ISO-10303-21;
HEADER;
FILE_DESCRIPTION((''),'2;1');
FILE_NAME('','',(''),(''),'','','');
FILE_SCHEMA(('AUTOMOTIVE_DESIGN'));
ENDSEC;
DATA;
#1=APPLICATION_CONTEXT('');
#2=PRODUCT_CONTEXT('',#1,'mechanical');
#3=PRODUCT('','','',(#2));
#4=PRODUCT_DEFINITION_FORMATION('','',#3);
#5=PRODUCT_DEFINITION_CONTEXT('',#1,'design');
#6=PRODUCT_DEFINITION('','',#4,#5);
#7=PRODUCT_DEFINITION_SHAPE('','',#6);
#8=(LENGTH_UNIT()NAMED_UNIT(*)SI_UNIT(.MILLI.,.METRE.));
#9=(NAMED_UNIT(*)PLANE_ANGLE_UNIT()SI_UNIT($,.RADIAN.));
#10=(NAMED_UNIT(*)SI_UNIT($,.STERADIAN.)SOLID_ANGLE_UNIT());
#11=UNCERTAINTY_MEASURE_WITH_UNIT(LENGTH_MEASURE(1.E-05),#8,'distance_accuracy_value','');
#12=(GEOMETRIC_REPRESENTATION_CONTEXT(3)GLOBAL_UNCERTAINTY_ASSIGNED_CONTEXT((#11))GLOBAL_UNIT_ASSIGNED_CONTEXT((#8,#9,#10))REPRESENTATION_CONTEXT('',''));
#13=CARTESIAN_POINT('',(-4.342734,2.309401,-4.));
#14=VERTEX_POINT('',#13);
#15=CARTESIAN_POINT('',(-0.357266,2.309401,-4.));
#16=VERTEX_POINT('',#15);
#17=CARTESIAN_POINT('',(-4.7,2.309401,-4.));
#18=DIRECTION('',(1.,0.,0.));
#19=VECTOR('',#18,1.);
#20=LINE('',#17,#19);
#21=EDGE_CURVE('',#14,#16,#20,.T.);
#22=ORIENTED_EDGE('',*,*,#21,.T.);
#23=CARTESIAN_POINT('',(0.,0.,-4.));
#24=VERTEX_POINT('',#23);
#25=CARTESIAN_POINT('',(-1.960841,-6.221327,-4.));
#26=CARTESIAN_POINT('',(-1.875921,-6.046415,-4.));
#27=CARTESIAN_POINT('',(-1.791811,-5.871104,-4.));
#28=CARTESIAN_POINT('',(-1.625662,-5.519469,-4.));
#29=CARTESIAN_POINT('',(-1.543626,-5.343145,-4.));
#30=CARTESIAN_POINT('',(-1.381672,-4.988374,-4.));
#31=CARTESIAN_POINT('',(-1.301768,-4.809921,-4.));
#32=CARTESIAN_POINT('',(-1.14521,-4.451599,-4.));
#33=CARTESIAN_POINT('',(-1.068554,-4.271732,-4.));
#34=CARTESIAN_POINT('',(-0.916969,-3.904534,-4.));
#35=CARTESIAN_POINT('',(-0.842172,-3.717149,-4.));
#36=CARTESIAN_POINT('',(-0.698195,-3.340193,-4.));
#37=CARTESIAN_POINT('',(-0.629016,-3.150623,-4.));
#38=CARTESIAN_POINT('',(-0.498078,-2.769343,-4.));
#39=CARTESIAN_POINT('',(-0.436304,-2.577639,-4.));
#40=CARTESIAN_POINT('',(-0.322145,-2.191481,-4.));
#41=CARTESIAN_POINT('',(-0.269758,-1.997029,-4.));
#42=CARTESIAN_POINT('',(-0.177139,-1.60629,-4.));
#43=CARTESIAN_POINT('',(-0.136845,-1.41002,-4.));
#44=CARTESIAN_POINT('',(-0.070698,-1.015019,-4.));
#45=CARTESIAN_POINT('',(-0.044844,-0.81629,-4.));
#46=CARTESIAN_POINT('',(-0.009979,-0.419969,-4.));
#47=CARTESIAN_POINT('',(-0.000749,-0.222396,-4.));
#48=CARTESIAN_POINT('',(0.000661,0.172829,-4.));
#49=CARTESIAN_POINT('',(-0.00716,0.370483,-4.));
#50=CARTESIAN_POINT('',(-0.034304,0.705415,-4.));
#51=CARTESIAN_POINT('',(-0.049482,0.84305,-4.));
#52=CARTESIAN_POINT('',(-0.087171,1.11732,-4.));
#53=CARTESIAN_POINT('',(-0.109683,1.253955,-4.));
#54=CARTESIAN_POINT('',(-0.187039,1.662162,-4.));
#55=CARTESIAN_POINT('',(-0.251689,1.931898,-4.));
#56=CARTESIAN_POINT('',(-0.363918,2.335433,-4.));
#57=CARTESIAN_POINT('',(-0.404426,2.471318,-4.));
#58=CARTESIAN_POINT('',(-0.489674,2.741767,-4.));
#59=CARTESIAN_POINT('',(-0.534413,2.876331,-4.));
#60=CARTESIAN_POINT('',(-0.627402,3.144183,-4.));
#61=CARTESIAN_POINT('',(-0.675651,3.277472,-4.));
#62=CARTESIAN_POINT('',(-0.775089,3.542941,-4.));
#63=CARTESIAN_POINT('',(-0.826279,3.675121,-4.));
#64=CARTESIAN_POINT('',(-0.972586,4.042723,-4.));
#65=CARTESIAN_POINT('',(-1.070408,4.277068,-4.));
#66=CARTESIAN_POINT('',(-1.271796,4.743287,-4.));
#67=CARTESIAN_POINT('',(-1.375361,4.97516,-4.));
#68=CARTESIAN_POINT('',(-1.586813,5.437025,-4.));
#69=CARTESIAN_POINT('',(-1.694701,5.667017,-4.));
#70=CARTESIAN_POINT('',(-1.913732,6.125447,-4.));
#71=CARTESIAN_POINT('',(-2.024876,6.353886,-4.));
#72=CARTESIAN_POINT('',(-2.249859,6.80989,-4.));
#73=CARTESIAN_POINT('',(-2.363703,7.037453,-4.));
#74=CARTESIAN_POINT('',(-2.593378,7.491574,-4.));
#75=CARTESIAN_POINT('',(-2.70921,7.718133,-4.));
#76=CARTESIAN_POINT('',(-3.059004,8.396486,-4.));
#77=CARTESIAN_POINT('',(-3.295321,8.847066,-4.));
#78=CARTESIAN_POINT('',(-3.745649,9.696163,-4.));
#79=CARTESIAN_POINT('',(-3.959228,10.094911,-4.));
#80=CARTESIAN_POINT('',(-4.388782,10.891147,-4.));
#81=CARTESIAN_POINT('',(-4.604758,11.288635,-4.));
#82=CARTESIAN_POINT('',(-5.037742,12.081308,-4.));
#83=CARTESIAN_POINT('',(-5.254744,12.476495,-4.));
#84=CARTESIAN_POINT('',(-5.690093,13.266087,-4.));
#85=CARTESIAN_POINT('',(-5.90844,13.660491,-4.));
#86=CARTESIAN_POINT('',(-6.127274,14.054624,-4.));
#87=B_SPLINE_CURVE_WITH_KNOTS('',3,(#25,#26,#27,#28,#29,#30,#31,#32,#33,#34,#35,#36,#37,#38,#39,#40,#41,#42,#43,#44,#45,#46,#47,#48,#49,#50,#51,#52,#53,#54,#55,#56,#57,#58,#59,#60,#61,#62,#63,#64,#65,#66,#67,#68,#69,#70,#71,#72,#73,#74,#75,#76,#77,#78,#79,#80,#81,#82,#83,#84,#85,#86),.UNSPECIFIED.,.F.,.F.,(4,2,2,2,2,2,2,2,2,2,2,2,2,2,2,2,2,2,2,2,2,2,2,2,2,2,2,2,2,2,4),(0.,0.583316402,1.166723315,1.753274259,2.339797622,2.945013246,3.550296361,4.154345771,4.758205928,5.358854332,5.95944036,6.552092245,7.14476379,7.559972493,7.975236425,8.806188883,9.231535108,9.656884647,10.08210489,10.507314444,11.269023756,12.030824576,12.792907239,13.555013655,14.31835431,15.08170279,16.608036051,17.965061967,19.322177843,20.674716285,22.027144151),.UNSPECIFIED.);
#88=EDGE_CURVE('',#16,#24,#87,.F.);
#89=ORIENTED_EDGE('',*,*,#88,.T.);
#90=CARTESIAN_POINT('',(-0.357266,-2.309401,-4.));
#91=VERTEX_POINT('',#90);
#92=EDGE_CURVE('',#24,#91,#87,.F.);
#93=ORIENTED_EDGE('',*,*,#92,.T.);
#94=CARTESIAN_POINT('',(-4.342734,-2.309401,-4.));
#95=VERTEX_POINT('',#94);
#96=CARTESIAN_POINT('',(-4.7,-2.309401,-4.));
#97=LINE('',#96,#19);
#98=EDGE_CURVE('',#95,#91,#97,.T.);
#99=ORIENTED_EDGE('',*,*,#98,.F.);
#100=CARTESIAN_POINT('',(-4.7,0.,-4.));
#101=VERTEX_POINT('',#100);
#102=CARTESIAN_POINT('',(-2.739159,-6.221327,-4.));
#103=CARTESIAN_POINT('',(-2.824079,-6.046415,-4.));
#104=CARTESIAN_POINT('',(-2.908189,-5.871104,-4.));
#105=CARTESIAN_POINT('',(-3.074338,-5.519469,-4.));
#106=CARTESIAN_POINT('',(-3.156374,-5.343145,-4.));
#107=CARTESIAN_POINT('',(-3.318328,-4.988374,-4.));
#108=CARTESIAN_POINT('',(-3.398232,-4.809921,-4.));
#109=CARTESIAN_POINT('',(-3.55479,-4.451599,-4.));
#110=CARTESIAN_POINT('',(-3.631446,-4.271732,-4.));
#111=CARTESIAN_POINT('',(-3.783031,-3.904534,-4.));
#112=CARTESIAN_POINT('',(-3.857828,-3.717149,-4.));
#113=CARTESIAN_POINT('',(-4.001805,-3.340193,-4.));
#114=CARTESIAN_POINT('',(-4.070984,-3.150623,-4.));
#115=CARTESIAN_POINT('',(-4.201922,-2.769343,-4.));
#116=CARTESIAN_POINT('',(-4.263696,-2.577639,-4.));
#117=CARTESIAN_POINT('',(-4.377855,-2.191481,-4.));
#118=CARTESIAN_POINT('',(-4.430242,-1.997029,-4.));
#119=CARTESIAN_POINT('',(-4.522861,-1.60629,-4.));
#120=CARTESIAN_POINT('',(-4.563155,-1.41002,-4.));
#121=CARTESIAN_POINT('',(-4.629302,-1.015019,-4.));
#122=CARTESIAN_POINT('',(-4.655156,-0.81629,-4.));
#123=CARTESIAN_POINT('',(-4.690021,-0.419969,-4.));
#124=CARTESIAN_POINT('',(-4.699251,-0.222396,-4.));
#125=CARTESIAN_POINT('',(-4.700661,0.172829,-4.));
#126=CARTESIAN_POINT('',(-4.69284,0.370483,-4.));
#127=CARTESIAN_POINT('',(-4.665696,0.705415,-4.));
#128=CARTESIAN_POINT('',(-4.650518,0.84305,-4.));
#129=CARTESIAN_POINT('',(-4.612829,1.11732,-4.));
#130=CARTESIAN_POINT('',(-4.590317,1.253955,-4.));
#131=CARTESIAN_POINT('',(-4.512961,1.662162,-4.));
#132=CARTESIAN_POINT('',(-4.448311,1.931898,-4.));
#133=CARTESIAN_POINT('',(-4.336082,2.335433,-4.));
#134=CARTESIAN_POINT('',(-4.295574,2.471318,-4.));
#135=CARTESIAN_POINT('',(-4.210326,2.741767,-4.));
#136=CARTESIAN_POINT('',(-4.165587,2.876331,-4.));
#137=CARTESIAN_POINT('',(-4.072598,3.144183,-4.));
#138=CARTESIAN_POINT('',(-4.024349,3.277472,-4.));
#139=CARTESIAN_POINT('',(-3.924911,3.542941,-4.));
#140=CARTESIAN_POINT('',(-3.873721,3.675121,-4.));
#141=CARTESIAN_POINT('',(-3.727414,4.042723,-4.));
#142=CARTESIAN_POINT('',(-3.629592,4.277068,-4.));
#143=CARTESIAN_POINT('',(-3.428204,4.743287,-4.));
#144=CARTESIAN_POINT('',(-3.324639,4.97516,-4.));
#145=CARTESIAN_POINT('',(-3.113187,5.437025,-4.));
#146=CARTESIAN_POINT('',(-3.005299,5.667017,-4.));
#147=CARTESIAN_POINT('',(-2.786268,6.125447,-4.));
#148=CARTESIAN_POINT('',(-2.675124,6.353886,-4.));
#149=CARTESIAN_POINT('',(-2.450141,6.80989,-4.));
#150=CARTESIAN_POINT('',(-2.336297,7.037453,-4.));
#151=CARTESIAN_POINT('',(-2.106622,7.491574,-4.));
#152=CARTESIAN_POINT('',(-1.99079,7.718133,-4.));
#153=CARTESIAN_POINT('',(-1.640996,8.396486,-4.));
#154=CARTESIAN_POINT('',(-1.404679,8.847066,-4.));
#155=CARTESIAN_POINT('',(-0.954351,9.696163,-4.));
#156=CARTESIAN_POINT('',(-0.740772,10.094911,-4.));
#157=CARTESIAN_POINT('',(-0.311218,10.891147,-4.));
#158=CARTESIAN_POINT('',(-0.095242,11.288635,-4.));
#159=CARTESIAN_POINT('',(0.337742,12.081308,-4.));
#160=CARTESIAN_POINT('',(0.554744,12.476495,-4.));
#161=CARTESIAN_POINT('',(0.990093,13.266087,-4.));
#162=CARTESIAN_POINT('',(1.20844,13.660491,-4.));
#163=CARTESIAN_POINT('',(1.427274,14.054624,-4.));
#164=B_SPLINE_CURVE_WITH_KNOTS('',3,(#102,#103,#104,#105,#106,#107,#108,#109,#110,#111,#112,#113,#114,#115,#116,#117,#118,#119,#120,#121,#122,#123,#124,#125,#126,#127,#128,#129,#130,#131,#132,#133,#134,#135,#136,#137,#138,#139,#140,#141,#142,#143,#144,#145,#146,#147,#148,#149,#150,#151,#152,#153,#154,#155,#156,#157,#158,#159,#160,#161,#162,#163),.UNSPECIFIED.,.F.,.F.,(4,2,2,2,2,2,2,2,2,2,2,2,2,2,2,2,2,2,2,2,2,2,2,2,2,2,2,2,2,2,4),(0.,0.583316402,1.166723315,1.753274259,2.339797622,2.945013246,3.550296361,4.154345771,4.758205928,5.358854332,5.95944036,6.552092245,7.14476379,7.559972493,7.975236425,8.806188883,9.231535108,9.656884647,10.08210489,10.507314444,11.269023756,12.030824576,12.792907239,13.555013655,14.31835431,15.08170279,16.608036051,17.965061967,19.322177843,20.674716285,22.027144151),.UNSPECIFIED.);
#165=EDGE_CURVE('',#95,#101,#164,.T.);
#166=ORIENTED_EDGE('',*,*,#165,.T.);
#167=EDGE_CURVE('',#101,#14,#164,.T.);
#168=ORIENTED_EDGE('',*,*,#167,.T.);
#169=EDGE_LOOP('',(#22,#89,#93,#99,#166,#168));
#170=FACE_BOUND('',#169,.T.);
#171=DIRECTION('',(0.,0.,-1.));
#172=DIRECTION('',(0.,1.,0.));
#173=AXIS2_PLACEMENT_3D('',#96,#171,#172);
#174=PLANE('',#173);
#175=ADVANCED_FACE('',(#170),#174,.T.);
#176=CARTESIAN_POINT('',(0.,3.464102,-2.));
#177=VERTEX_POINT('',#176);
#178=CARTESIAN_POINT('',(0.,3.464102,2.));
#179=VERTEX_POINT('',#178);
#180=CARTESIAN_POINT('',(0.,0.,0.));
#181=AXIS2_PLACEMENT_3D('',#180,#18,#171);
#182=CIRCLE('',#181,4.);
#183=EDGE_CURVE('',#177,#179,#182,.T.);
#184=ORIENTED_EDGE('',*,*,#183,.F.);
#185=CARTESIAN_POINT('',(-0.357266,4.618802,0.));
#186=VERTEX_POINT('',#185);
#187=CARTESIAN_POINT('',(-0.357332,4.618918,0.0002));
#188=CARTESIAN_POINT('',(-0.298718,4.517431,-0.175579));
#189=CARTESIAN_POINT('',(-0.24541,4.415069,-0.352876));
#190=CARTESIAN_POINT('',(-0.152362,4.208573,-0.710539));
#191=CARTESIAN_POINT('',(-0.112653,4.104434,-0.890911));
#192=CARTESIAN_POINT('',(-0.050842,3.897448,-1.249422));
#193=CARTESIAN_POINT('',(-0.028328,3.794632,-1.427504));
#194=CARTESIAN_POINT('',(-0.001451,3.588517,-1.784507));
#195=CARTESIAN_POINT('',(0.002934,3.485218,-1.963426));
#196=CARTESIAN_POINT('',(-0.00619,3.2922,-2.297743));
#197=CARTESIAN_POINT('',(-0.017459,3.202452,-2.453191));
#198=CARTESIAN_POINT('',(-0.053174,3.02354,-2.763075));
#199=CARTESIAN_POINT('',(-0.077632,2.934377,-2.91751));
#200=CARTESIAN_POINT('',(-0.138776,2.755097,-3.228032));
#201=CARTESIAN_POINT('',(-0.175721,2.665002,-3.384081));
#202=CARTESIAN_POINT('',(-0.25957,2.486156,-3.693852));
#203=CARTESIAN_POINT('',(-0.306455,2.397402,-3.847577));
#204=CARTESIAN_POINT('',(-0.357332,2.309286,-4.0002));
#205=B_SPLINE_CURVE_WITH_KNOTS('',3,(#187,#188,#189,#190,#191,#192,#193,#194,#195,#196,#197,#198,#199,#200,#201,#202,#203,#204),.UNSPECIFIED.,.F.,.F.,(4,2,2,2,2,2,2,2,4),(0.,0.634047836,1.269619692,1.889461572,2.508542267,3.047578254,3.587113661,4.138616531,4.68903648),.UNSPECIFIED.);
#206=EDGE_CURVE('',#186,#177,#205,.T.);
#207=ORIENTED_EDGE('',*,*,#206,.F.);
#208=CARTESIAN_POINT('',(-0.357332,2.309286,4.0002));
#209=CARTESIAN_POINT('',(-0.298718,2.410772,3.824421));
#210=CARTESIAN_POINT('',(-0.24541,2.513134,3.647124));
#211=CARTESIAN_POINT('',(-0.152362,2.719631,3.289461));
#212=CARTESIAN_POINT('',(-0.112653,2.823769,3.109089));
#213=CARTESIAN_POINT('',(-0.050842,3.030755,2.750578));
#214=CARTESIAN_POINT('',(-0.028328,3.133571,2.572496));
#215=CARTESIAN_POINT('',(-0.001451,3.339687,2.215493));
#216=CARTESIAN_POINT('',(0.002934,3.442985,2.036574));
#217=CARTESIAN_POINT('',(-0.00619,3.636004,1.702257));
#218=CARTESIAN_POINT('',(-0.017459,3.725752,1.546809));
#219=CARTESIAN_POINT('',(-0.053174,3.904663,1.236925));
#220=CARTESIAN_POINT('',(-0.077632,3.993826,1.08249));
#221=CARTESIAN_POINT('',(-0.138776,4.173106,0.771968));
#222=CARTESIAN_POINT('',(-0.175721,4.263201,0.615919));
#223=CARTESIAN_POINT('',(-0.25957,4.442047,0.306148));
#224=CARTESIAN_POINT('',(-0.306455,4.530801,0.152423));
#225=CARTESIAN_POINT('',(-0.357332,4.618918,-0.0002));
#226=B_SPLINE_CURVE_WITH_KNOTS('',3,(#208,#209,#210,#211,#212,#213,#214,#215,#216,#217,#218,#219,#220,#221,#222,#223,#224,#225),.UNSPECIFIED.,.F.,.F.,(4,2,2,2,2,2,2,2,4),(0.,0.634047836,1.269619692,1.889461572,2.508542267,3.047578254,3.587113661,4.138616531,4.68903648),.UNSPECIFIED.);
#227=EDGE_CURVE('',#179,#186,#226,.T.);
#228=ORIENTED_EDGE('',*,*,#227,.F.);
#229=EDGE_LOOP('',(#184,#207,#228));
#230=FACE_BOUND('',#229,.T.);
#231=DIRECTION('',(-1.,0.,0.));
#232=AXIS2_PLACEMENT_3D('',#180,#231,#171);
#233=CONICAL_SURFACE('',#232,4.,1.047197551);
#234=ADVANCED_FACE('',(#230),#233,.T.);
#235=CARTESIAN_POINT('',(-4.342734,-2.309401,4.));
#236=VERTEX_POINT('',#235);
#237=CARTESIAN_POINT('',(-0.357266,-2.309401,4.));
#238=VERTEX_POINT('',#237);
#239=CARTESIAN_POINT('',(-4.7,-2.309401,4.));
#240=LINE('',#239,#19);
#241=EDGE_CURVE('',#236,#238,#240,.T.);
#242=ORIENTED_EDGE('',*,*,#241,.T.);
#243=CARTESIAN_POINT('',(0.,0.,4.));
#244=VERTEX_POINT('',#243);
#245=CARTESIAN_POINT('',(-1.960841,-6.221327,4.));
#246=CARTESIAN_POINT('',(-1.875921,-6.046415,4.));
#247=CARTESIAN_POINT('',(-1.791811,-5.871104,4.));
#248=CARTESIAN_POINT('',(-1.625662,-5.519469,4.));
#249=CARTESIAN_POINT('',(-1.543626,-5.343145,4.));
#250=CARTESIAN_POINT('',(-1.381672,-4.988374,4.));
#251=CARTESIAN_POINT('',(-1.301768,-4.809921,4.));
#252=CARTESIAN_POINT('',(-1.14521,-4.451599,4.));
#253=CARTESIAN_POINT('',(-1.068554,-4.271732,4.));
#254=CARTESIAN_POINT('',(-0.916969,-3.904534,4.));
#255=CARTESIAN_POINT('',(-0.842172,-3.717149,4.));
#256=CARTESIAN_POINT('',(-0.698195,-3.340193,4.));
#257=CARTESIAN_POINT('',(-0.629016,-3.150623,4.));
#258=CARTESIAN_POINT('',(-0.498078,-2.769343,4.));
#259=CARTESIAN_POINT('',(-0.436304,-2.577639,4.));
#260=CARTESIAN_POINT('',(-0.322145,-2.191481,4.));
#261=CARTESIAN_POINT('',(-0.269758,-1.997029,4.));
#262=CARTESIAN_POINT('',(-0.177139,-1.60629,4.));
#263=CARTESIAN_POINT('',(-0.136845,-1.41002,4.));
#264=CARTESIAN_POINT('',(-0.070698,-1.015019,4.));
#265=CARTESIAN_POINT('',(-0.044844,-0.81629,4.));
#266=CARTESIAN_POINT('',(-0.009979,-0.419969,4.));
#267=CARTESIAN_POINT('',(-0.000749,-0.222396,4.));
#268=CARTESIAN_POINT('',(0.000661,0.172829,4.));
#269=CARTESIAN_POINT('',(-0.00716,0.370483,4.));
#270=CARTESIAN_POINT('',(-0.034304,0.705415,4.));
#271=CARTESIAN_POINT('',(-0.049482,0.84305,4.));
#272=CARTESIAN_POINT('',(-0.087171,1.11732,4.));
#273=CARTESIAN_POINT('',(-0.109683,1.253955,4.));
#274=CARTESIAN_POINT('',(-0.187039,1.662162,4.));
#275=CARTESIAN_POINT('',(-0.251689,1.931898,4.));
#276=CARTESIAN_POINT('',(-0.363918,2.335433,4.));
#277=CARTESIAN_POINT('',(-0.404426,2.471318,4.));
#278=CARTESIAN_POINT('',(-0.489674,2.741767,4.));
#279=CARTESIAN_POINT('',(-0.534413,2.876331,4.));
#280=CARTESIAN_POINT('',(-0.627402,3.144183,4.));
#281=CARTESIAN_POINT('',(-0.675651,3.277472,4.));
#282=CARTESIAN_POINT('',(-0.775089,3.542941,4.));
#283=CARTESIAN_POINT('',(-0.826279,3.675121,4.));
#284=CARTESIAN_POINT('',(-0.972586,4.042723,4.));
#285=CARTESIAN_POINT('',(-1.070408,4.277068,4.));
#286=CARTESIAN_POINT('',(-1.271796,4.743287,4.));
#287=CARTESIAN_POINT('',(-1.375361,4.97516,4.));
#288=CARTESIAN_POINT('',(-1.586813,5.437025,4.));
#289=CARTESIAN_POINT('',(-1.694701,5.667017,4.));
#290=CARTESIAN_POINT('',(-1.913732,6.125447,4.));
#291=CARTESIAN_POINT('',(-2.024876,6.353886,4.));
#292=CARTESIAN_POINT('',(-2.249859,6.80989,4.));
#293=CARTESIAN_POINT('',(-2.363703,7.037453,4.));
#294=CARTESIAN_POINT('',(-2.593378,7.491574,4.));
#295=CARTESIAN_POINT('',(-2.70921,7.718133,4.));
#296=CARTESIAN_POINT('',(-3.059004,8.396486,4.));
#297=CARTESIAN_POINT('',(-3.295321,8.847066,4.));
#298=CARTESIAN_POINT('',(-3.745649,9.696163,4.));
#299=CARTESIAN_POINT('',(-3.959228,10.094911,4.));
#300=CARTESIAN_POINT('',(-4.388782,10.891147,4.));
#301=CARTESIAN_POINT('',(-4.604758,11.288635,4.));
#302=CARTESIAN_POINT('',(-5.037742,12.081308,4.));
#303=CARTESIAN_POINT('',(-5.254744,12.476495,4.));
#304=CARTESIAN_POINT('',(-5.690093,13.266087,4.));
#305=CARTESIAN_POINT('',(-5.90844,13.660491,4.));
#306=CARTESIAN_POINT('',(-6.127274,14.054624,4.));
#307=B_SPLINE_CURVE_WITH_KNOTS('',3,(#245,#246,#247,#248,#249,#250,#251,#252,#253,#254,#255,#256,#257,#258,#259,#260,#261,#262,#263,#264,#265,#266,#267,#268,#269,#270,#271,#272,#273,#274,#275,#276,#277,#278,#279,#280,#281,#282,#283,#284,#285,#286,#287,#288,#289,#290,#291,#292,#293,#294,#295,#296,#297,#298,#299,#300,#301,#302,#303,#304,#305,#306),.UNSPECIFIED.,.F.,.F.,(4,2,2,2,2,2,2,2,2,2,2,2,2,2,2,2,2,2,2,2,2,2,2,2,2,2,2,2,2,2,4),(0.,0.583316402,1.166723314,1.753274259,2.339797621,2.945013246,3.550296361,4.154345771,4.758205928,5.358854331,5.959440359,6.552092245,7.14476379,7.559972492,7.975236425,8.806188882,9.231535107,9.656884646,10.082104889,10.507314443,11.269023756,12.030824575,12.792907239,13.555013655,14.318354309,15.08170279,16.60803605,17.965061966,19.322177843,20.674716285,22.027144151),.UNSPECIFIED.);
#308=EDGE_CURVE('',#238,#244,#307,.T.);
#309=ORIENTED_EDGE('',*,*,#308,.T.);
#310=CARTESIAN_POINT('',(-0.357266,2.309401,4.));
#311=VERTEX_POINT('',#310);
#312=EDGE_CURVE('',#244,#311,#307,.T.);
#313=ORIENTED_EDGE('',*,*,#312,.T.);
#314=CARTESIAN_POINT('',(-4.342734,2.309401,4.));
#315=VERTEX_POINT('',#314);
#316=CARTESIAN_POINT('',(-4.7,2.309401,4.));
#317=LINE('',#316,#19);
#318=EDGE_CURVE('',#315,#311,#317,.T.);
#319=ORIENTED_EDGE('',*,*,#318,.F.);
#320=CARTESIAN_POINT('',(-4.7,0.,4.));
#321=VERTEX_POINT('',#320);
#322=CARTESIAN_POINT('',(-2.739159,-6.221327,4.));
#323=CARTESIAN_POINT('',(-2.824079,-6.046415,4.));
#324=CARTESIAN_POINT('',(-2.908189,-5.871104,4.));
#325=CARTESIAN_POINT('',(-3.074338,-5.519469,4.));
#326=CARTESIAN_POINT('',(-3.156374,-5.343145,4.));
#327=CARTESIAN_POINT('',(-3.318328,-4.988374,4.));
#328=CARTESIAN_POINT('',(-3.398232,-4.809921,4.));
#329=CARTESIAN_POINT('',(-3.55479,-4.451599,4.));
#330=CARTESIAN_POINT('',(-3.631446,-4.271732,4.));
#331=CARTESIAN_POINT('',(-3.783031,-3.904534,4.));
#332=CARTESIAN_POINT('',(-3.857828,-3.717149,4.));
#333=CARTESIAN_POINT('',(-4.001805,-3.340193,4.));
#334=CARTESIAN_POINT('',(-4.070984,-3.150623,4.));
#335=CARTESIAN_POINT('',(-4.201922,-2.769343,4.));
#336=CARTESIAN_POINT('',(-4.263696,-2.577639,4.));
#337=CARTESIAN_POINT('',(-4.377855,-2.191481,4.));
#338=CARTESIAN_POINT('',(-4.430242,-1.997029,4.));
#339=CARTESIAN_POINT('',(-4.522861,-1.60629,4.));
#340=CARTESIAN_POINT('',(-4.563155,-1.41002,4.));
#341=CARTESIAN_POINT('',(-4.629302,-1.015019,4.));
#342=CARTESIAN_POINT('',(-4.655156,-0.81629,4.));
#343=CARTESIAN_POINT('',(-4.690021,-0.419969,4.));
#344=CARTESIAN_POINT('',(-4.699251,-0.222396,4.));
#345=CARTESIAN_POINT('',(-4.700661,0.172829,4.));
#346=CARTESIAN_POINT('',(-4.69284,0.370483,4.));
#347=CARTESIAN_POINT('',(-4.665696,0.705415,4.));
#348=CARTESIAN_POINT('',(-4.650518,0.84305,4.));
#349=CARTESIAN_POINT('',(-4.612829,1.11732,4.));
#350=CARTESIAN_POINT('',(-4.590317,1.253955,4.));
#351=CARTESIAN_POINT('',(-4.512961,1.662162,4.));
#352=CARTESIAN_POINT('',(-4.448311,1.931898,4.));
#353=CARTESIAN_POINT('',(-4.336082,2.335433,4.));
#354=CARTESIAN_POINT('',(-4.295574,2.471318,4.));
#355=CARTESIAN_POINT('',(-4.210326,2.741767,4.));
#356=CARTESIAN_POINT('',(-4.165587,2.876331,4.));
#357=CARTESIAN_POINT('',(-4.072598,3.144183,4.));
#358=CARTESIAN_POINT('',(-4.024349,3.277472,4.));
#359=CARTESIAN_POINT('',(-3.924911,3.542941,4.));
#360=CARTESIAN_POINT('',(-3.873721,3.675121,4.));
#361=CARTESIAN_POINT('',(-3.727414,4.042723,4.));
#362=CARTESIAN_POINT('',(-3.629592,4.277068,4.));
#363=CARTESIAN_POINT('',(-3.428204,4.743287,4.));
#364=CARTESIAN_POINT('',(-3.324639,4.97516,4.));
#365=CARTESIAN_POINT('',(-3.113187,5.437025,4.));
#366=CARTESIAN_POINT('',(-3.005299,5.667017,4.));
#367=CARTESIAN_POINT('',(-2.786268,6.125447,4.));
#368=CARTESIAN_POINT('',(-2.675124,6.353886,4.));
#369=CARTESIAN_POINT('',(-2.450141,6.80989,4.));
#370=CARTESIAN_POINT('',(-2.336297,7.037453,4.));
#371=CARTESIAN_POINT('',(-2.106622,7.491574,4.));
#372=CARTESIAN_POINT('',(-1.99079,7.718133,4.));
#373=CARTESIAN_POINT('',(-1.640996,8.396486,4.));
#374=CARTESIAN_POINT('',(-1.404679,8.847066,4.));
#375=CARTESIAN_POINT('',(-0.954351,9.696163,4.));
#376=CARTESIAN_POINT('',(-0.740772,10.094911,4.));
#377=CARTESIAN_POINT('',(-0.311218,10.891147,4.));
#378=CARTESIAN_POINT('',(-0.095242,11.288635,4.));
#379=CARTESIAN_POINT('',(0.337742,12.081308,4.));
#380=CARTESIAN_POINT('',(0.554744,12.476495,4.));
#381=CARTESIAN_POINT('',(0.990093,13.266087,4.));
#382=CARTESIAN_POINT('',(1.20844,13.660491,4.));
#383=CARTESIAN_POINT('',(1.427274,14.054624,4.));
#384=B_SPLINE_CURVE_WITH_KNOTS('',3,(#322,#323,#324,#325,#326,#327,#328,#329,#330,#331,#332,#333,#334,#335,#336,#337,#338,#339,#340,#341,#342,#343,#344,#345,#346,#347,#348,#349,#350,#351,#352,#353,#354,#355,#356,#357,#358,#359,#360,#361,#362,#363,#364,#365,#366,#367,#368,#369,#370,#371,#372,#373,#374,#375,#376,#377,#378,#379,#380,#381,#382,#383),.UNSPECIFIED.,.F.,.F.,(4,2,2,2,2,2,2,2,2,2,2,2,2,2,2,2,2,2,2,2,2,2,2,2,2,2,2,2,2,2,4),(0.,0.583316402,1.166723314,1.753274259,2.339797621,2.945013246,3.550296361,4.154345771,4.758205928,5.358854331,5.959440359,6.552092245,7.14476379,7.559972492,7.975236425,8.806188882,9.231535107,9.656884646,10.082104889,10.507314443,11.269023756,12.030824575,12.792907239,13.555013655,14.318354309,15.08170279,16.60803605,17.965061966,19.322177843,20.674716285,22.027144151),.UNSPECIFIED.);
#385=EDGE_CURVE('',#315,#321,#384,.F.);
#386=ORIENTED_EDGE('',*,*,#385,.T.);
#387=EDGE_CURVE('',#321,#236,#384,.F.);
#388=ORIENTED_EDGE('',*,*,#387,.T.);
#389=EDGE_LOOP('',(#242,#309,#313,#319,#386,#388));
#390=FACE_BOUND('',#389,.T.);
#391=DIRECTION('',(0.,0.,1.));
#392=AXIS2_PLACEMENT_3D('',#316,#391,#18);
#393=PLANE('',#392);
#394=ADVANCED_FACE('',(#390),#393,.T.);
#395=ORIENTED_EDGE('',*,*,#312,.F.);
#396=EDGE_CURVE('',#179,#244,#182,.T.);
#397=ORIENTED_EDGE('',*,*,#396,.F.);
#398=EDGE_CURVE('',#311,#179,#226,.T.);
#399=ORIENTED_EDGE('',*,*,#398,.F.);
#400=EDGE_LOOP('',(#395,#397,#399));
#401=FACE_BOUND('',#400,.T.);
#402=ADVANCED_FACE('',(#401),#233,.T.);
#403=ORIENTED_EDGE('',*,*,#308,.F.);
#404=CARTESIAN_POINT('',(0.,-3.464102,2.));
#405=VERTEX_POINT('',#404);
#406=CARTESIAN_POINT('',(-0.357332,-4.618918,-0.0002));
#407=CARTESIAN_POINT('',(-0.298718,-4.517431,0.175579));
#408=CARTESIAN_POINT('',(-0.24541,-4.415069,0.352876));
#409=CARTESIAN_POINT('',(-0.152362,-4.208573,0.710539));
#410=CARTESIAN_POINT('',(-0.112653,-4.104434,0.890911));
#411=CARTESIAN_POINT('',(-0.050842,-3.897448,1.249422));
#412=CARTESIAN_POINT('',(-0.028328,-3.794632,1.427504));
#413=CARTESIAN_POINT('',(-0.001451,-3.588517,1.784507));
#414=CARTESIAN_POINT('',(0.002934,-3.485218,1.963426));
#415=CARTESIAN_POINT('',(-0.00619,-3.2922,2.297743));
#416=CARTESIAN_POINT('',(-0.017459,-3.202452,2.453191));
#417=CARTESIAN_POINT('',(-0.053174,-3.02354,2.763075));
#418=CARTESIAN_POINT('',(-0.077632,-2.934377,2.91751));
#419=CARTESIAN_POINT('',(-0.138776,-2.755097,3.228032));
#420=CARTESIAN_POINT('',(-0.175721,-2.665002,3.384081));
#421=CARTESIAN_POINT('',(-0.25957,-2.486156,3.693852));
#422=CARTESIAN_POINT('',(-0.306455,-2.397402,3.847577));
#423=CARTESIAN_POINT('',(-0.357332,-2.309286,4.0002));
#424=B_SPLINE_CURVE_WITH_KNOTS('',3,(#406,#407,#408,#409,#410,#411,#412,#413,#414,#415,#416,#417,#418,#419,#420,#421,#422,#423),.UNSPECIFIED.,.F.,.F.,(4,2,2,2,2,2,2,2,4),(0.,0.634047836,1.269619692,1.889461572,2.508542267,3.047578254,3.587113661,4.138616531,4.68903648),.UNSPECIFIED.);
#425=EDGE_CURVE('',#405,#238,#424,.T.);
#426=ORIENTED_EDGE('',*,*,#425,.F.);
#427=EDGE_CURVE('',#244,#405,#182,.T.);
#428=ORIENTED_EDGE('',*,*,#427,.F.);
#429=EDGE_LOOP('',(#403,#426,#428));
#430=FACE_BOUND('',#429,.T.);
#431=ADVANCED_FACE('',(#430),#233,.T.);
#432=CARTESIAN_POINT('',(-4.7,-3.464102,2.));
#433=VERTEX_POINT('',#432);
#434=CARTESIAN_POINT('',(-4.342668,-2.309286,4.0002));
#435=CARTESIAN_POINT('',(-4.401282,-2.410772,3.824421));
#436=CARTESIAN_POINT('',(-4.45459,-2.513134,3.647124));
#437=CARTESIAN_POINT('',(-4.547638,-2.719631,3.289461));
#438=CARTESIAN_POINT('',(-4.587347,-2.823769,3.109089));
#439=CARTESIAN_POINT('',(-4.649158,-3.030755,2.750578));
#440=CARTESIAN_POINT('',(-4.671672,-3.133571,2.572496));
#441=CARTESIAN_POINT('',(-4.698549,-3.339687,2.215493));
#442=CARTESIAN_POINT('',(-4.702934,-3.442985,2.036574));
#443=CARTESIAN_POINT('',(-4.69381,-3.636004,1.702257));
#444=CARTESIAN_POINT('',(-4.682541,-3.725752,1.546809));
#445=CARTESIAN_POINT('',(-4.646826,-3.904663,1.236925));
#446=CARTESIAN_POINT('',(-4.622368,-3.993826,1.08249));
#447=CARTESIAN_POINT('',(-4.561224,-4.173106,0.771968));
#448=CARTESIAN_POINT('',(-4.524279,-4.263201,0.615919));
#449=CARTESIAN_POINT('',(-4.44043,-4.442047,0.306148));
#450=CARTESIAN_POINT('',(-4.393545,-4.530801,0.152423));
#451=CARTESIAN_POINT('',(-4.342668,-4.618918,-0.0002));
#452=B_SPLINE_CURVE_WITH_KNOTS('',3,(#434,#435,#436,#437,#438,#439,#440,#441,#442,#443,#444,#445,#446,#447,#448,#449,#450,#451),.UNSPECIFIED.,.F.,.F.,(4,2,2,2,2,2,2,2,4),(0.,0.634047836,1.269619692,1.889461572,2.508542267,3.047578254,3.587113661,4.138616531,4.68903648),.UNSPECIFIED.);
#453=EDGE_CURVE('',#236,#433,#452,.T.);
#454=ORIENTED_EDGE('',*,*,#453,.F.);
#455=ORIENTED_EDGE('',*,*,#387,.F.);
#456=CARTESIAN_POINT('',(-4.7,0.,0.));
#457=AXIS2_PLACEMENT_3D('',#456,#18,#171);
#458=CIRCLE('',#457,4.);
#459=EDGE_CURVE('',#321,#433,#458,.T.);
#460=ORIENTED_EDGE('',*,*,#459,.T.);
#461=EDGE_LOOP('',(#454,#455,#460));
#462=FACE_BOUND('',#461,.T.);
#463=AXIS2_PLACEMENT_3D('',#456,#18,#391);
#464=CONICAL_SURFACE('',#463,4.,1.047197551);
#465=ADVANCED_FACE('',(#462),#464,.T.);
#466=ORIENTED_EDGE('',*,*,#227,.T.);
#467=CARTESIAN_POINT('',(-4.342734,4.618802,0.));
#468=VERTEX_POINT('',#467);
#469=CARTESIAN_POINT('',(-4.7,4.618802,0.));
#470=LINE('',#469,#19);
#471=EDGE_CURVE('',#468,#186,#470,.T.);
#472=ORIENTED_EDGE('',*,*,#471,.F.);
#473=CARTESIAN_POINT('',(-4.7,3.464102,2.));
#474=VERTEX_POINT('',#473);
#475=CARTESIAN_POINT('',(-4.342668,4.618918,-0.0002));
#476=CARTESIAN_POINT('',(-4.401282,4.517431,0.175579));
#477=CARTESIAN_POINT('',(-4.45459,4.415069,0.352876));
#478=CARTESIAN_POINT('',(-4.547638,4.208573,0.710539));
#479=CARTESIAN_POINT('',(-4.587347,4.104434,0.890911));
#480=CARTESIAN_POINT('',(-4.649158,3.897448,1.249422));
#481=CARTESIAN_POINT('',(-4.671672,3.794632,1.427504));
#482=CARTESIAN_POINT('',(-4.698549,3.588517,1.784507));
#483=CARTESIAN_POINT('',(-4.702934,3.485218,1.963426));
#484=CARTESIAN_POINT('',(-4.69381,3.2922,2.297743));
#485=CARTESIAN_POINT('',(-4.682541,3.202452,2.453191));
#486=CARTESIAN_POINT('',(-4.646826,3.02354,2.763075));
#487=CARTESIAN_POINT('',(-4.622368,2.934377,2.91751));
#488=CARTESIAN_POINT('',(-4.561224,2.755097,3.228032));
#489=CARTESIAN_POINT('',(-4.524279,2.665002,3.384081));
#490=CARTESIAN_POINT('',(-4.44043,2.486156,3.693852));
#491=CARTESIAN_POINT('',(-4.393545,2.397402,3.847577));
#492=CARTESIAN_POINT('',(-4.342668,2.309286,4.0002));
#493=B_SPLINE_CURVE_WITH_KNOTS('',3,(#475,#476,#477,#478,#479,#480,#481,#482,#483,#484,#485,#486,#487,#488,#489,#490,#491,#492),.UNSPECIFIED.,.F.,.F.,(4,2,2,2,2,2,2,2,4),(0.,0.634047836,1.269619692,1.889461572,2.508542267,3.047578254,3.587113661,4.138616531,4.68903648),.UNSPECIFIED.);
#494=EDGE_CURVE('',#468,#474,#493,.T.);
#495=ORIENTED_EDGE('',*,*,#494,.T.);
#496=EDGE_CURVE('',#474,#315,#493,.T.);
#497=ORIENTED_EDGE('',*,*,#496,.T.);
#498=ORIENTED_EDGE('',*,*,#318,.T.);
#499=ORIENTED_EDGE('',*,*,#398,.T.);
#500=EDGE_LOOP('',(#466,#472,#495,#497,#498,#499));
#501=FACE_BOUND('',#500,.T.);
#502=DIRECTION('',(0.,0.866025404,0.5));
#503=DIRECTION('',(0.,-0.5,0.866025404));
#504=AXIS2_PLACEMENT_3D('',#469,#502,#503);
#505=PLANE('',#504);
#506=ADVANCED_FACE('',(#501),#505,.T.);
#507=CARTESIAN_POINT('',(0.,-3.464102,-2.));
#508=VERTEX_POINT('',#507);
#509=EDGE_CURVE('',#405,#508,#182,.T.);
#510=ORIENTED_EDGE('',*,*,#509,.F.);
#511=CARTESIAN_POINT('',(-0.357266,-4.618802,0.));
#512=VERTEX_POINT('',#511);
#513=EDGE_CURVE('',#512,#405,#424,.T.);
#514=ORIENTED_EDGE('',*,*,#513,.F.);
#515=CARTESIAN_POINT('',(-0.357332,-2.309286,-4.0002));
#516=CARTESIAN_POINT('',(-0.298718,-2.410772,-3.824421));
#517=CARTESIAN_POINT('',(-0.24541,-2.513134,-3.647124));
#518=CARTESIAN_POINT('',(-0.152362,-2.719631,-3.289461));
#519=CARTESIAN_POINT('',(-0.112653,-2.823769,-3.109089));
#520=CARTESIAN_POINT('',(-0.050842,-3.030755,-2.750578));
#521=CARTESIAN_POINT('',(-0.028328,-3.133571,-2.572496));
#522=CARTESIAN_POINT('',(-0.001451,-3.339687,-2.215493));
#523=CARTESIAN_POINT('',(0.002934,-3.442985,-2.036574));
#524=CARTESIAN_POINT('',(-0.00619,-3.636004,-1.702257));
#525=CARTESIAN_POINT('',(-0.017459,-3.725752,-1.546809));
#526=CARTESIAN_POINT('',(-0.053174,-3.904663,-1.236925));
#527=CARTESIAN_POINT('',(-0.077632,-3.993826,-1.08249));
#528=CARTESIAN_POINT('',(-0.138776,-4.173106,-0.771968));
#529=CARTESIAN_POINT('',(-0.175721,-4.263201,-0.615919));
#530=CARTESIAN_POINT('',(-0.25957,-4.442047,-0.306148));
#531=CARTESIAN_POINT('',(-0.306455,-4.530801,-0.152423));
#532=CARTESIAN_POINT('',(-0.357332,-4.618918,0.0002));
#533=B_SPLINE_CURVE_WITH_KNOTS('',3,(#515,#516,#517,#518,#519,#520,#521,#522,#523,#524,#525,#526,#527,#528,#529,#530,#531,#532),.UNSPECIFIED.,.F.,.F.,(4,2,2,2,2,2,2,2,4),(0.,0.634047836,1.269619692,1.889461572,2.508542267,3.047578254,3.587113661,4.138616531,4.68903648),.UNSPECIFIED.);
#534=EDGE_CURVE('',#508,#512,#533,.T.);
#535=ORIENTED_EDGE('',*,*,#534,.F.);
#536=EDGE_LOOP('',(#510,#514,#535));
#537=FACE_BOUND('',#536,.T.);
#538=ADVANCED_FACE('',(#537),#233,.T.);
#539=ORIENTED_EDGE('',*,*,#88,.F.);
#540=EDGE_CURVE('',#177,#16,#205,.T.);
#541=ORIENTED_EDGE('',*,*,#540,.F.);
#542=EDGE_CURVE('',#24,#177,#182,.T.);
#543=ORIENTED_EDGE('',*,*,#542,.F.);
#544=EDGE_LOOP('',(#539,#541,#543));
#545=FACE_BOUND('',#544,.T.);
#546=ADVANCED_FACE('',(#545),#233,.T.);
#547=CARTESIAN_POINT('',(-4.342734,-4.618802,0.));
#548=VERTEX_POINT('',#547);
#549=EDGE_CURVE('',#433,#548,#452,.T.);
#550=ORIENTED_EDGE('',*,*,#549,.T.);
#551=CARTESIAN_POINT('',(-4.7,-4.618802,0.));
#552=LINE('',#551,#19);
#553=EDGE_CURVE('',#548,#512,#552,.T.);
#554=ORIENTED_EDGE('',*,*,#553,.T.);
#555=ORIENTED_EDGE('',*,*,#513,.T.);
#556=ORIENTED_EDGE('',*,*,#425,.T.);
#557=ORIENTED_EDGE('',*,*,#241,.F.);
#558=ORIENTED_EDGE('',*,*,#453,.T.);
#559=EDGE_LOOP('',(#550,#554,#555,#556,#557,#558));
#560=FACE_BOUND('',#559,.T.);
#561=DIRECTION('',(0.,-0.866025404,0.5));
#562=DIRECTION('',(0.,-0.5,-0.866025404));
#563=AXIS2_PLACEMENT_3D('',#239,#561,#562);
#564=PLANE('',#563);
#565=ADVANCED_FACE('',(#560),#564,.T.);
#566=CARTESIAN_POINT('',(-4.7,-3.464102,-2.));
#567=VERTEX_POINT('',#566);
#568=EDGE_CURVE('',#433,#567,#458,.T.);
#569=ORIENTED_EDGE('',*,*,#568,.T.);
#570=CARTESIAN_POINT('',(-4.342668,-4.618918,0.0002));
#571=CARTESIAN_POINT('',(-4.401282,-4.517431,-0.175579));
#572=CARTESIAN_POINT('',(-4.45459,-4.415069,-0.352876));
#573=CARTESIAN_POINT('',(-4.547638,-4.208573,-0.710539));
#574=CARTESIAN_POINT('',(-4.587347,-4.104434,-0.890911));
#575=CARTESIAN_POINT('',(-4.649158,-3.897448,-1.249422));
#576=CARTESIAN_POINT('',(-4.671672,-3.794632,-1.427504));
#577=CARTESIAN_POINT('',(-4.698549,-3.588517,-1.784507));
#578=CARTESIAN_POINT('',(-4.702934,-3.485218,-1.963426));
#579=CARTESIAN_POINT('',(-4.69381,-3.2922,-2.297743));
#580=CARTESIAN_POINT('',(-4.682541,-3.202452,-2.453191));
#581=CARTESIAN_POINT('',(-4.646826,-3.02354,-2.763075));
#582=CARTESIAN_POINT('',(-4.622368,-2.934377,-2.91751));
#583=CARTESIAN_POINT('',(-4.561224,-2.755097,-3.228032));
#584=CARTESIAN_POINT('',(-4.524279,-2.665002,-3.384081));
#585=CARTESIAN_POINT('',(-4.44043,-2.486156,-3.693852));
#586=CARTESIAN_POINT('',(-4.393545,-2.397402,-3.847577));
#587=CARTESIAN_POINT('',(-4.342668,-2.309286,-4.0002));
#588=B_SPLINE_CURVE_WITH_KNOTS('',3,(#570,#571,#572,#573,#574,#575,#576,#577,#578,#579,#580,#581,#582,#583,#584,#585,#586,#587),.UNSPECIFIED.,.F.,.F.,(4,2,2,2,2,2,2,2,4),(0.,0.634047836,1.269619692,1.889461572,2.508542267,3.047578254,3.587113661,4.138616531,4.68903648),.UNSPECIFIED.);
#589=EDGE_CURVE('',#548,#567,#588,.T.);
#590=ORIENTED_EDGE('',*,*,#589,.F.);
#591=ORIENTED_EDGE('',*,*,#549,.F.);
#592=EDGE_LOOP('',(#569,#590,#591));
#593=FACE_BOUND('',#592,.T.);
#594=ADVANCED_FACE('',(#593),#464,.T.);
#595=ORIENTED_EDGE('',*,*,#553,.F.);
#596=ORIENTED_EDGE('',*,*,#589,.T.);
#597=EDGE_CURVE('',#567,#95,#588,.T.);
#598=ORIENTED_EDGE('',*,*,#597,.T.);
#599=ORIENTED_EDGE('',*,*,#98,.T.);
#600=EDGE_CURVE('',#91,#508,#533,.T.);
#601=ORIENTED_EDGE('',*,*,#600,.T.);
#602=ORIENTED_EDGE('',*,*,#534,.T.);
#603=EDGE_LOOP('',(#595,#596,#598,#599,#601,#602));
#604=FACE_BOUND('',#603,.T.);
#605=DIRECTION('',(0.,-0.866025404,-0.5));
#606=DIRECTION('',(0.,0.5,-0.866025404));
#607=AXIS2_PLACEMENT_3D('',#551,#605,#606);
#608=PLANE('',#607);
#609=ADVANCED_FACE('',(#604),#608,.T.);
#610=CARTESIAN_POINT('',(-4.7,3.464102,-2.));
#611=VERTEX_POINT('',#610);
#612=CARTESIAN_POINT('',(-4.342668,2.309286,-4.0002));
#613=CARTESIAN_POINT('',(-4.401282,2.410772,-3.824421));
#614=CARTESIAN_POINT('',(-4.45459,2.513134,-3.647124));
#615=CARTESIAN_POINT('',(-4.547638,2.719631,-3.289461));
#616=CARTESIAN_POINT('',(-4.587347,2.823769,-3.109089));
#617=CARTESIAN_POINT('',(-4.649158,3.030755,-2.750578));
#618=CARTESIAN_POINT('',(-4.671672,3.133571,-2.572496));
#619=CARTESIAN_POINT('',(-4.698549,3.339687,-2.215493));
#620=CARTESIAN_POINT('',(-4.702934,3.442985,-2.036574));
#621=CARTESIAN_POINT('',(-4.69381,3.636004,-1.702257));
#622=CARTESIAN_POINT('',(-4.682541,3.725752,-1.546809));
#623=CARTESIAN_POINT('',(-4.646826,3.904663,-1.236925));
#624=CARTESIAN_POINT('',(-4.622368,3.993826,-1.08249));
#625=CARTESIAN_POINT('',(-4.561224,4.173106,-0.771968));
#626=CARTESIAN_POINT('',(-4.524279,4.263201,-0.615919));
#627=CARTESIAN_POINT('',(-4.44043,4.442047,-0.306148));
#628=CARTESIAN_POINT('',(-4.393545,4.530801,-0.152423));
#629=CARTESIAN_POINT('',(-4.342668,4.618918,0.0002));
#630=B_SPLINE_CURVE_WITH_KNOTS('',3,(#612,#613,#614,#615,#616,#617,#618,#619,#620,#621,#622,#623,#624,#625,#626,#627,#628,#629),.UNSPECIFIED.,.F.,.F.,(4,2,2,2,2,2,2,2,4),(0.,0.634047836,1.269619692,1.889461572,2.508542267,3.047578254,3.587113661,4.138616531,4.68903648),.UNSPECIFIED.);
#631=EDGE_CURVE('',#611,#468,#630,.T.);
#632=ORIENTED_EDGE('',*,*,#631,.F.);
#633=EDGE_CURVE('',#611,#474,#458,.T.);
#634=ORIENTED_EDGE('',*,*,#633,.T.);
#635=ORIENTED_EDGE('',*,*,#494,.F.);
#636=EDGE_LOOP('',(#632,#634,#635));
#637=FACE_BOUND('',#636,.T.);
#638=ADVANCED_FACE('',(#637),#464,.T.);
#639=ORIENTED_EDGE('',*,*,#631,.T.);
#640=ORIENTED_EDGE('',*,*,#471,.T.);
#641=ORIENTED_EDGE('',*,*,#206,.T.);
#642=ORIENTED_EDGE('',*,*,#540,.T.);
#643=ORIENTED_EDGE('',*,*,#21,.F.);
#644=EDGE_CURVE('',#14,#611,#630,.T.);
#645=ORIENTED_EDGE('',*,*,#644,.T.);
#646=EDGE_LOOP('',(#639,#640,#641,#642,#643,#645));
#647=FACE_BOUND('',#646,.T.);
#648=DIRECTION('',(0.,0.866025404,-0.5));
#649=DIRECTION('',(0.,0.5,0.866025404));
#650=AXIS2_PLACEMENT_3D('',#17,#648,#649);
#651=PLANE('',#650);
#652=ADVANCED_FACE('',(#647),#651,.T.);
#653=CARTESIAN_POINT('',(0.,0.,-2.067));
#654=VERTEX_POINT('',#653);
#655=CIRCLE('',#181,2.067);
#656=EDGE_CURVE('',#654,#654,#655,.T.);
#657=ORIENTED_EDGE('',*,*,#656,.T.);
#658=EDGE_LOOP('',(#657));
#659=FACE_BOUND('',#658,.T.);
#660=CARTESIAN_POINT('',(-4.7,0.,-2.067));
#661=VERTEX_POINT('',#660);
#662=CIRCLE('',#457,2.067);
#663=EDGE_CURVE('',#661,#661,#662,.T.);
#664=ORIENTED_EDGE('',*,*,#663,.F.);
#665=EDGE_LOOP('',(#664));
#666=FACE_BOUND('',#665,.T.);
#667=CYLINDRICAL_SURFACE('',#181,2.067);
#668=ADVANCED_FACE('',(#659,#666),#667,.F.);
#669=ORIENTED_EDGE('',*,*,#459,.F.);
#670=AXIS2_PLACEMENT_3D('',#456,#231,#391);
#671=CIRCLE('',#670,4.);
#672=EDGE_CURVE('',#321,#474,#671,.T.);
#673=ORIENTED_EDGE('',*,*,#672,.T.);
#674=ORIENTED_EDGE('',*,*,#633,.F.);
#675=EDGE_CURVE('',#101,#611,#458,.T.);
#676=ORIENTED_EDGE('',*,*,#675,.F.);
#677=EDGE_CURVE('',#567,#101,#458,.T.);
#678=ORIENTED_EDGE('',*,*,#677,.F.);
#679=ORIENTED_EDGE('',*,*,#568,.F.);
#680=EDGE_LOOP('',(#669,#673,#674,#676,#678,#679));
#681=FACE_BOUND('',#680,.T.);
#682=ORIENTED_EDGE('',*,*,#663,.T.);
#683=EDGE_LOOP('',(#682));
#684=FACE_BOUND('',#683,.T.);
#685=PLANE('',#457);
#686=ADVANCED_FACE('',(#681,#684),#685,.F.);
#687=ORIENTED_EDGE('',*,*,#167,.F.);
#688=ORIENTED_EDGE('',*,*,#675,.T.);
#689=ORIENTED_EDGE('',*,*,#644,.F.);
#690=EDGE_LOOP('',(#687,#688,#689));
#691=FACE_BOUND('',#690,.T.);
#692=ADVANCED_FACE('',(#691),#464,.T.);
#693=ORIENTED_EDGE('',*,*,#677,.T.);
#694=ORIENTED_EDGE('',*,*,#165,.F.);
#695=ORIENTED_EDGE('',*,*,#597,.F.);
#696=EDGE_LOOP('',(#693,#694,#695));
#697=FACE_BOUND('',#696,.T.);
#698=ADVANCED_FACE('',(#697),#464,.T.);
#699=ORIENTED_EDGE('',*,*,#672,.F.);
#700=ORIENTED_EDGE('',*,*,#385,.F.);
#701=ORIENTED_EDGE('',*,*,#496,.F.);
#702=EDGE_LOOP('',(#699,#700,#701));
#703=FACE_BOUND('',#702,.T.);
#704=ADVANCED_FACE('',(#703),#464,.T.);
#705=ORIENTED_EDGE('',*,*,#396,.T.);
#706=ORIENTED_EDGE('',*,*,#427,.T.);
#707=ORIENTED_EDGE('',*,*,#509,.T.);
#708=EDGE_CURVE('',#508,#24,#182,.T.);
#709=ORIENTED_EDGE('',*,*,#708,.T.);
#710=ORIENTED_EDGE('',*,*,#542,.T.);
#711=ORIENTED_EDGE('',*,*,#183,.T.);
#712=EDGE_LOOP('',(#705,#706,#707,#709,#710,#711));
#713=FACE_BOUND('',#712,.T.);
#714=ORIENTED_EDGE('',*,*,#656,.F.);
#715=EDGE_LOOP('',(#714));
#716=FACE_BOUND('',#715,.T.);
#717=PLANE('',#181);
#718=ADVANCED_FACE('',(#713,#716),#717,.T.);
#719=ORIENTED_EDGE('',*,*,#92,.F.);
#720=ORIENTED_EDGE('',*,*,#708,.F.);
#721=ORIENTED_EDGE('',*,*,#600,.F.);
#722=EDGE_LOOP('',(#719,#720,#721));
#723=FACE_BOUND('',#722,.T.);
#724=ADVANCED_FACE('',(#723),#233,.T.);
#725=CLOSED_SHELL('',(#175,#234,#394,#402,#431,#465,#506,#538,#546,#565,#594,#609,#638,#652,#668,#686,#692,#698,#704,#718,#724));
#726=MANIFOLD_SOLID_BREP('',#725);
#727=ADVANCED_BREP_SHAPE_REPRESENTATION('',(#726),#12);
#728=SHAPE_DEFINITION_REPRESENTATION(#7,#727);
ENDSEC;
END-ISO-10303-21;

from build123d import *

# Parameters (mm, degrees)
BOSS_EXTRUDE1_DEPTH = 4.7
SKETCH2_OUTSIDE_W   = 42.786
SKETCH2_OUTSIDE_H   = 44.024
SKETCH2_OUTSIDE_R   = 4
CUT_EXTRUDE1_DEPTH  = 8.708653147
CUT_EXTRUDE1_DRAFT  = -60
SKETCH3_OUTSIDE_W   = 42.786
SKETCH3_OUTSIDE_H   = 44.024
SKETCH3_OUTSIDE_R   = 4
CUT_EXTRUDE2_DEPTH  = 8.708653147
CUT_EXTRUDE2_DRAFT  = -60
TAP1_D              = 4.134


with BuildPart() as part:
    # Sketch1 → Boss-Extrude1 (new body)
    with BuildSketch(Plane(origin=(0, 0, 0), x_dir=(0, 0, -1), z_dir=(1, 0, 0))):
        Polygon((0, 4.618802154), (-4, 2.309401077), (-4, -2.309401077), (0, -4.618802154), (4, -2.309401077), (4, 2.309401077), align=None)
    extrude(amount=-BOSS_EXTRUDE1_DEPTH)


with BuildPart() as cut_extrude1_tool:
    # Sketch2 outside → Cut-Extrude1 (with draft: the straight prism first)
    with BuildSketch(Plane(origin=(0, 0, 0), x_dir=(0, 0, -1), z_dir=(1, 0, 0))):
        Rectangle(SKETCH2_OUTSIDE_W, SKETCH2_OUTSIDE_H)
        Circle(SKETCH2_OUTSIDE_R, mode=Mode.SUBTRACT)
    extrude(amount=-CUT_EXTRUDE1_DEPTH)
    # Cut-Extrude1: the draft: its side faces are tilted about the plane it starts from
    cut_extrude1_sides = [cut_extrude1_tool.faces().sort_by_distance(p)[0] for p in [
        (-4.354326573, -22.012, 0),
        (-4.354326573, 0, -21.393),
        (-4.354326573, 22.012, 0),
        (-4.354326573, 0, 21.393),
        (-4.354326573, 0, 4),
    ]]
    draft(cut_extrude1_sides, Plane(origin=(0, 0, 0), x_dir=(0, 0, -1), z_dir=(1, 0, 0)), CUT_EXTRUDE1_DRAFT)


with BuildPart() as part_1:
    add(part.part)

    # Cut-Extrude1: cut by cut_extrude1_tool
    add(cut_extrude1_tool.part, mode=Mode.SUBTRACT)


with BuildPart() as cut_extrude2_tool:
    # Sketch3 outside → Cut-Extrude2 (with draft: the straight prism first)
    with BuildSketch(Plane.ZY.offset(4.7)):
        Rectangle(SKETCH3_OUTSIDE_W, SKETCH3_OUTSIDE_H)
        Circle(SKETCH3_OUTSIDE_R, mode=Mode.SUBTRACT)
    extrude(amount=-CUT_EXTRUDE2_DEPTH)
    # Cut-Extrude2: the draft: its side faces are tilted about the plane it starts from
    cut_extrude2_sides = [cut_extrude2_tool.faces().sort_by_distance(p)[0] for p in [
        (-0.345673427, -22.012, 0),
        (-0.345673427, 0, 21.393),
        (-0.345673427, 22.012, 0),
        (-0.345673427, 0, -21.393),
        (-0.345673427, 0, -4),
    ]]
    draft(cut_extrude2_sides, Plane.ZY.offset(4.7), CUT_EXTRUDE2_DRAFT)


with BuildPart() as part_2:
    add(part_1.part)

    # Cut-Extrude2: cut by cut_extrude2_tool
    add(cut_extrude2_tool.part, mode=Mode.SUBTRACT)

    # Tap1 (through all)
    with Locations(Plane(origin=(0, 0, 0), x_dir=(0, 0, -1), z_dir=(1, 0, 0))):
        with Locations((0, 0)):
            Hole(TAP1_D / 2)


solid = part_2.part
